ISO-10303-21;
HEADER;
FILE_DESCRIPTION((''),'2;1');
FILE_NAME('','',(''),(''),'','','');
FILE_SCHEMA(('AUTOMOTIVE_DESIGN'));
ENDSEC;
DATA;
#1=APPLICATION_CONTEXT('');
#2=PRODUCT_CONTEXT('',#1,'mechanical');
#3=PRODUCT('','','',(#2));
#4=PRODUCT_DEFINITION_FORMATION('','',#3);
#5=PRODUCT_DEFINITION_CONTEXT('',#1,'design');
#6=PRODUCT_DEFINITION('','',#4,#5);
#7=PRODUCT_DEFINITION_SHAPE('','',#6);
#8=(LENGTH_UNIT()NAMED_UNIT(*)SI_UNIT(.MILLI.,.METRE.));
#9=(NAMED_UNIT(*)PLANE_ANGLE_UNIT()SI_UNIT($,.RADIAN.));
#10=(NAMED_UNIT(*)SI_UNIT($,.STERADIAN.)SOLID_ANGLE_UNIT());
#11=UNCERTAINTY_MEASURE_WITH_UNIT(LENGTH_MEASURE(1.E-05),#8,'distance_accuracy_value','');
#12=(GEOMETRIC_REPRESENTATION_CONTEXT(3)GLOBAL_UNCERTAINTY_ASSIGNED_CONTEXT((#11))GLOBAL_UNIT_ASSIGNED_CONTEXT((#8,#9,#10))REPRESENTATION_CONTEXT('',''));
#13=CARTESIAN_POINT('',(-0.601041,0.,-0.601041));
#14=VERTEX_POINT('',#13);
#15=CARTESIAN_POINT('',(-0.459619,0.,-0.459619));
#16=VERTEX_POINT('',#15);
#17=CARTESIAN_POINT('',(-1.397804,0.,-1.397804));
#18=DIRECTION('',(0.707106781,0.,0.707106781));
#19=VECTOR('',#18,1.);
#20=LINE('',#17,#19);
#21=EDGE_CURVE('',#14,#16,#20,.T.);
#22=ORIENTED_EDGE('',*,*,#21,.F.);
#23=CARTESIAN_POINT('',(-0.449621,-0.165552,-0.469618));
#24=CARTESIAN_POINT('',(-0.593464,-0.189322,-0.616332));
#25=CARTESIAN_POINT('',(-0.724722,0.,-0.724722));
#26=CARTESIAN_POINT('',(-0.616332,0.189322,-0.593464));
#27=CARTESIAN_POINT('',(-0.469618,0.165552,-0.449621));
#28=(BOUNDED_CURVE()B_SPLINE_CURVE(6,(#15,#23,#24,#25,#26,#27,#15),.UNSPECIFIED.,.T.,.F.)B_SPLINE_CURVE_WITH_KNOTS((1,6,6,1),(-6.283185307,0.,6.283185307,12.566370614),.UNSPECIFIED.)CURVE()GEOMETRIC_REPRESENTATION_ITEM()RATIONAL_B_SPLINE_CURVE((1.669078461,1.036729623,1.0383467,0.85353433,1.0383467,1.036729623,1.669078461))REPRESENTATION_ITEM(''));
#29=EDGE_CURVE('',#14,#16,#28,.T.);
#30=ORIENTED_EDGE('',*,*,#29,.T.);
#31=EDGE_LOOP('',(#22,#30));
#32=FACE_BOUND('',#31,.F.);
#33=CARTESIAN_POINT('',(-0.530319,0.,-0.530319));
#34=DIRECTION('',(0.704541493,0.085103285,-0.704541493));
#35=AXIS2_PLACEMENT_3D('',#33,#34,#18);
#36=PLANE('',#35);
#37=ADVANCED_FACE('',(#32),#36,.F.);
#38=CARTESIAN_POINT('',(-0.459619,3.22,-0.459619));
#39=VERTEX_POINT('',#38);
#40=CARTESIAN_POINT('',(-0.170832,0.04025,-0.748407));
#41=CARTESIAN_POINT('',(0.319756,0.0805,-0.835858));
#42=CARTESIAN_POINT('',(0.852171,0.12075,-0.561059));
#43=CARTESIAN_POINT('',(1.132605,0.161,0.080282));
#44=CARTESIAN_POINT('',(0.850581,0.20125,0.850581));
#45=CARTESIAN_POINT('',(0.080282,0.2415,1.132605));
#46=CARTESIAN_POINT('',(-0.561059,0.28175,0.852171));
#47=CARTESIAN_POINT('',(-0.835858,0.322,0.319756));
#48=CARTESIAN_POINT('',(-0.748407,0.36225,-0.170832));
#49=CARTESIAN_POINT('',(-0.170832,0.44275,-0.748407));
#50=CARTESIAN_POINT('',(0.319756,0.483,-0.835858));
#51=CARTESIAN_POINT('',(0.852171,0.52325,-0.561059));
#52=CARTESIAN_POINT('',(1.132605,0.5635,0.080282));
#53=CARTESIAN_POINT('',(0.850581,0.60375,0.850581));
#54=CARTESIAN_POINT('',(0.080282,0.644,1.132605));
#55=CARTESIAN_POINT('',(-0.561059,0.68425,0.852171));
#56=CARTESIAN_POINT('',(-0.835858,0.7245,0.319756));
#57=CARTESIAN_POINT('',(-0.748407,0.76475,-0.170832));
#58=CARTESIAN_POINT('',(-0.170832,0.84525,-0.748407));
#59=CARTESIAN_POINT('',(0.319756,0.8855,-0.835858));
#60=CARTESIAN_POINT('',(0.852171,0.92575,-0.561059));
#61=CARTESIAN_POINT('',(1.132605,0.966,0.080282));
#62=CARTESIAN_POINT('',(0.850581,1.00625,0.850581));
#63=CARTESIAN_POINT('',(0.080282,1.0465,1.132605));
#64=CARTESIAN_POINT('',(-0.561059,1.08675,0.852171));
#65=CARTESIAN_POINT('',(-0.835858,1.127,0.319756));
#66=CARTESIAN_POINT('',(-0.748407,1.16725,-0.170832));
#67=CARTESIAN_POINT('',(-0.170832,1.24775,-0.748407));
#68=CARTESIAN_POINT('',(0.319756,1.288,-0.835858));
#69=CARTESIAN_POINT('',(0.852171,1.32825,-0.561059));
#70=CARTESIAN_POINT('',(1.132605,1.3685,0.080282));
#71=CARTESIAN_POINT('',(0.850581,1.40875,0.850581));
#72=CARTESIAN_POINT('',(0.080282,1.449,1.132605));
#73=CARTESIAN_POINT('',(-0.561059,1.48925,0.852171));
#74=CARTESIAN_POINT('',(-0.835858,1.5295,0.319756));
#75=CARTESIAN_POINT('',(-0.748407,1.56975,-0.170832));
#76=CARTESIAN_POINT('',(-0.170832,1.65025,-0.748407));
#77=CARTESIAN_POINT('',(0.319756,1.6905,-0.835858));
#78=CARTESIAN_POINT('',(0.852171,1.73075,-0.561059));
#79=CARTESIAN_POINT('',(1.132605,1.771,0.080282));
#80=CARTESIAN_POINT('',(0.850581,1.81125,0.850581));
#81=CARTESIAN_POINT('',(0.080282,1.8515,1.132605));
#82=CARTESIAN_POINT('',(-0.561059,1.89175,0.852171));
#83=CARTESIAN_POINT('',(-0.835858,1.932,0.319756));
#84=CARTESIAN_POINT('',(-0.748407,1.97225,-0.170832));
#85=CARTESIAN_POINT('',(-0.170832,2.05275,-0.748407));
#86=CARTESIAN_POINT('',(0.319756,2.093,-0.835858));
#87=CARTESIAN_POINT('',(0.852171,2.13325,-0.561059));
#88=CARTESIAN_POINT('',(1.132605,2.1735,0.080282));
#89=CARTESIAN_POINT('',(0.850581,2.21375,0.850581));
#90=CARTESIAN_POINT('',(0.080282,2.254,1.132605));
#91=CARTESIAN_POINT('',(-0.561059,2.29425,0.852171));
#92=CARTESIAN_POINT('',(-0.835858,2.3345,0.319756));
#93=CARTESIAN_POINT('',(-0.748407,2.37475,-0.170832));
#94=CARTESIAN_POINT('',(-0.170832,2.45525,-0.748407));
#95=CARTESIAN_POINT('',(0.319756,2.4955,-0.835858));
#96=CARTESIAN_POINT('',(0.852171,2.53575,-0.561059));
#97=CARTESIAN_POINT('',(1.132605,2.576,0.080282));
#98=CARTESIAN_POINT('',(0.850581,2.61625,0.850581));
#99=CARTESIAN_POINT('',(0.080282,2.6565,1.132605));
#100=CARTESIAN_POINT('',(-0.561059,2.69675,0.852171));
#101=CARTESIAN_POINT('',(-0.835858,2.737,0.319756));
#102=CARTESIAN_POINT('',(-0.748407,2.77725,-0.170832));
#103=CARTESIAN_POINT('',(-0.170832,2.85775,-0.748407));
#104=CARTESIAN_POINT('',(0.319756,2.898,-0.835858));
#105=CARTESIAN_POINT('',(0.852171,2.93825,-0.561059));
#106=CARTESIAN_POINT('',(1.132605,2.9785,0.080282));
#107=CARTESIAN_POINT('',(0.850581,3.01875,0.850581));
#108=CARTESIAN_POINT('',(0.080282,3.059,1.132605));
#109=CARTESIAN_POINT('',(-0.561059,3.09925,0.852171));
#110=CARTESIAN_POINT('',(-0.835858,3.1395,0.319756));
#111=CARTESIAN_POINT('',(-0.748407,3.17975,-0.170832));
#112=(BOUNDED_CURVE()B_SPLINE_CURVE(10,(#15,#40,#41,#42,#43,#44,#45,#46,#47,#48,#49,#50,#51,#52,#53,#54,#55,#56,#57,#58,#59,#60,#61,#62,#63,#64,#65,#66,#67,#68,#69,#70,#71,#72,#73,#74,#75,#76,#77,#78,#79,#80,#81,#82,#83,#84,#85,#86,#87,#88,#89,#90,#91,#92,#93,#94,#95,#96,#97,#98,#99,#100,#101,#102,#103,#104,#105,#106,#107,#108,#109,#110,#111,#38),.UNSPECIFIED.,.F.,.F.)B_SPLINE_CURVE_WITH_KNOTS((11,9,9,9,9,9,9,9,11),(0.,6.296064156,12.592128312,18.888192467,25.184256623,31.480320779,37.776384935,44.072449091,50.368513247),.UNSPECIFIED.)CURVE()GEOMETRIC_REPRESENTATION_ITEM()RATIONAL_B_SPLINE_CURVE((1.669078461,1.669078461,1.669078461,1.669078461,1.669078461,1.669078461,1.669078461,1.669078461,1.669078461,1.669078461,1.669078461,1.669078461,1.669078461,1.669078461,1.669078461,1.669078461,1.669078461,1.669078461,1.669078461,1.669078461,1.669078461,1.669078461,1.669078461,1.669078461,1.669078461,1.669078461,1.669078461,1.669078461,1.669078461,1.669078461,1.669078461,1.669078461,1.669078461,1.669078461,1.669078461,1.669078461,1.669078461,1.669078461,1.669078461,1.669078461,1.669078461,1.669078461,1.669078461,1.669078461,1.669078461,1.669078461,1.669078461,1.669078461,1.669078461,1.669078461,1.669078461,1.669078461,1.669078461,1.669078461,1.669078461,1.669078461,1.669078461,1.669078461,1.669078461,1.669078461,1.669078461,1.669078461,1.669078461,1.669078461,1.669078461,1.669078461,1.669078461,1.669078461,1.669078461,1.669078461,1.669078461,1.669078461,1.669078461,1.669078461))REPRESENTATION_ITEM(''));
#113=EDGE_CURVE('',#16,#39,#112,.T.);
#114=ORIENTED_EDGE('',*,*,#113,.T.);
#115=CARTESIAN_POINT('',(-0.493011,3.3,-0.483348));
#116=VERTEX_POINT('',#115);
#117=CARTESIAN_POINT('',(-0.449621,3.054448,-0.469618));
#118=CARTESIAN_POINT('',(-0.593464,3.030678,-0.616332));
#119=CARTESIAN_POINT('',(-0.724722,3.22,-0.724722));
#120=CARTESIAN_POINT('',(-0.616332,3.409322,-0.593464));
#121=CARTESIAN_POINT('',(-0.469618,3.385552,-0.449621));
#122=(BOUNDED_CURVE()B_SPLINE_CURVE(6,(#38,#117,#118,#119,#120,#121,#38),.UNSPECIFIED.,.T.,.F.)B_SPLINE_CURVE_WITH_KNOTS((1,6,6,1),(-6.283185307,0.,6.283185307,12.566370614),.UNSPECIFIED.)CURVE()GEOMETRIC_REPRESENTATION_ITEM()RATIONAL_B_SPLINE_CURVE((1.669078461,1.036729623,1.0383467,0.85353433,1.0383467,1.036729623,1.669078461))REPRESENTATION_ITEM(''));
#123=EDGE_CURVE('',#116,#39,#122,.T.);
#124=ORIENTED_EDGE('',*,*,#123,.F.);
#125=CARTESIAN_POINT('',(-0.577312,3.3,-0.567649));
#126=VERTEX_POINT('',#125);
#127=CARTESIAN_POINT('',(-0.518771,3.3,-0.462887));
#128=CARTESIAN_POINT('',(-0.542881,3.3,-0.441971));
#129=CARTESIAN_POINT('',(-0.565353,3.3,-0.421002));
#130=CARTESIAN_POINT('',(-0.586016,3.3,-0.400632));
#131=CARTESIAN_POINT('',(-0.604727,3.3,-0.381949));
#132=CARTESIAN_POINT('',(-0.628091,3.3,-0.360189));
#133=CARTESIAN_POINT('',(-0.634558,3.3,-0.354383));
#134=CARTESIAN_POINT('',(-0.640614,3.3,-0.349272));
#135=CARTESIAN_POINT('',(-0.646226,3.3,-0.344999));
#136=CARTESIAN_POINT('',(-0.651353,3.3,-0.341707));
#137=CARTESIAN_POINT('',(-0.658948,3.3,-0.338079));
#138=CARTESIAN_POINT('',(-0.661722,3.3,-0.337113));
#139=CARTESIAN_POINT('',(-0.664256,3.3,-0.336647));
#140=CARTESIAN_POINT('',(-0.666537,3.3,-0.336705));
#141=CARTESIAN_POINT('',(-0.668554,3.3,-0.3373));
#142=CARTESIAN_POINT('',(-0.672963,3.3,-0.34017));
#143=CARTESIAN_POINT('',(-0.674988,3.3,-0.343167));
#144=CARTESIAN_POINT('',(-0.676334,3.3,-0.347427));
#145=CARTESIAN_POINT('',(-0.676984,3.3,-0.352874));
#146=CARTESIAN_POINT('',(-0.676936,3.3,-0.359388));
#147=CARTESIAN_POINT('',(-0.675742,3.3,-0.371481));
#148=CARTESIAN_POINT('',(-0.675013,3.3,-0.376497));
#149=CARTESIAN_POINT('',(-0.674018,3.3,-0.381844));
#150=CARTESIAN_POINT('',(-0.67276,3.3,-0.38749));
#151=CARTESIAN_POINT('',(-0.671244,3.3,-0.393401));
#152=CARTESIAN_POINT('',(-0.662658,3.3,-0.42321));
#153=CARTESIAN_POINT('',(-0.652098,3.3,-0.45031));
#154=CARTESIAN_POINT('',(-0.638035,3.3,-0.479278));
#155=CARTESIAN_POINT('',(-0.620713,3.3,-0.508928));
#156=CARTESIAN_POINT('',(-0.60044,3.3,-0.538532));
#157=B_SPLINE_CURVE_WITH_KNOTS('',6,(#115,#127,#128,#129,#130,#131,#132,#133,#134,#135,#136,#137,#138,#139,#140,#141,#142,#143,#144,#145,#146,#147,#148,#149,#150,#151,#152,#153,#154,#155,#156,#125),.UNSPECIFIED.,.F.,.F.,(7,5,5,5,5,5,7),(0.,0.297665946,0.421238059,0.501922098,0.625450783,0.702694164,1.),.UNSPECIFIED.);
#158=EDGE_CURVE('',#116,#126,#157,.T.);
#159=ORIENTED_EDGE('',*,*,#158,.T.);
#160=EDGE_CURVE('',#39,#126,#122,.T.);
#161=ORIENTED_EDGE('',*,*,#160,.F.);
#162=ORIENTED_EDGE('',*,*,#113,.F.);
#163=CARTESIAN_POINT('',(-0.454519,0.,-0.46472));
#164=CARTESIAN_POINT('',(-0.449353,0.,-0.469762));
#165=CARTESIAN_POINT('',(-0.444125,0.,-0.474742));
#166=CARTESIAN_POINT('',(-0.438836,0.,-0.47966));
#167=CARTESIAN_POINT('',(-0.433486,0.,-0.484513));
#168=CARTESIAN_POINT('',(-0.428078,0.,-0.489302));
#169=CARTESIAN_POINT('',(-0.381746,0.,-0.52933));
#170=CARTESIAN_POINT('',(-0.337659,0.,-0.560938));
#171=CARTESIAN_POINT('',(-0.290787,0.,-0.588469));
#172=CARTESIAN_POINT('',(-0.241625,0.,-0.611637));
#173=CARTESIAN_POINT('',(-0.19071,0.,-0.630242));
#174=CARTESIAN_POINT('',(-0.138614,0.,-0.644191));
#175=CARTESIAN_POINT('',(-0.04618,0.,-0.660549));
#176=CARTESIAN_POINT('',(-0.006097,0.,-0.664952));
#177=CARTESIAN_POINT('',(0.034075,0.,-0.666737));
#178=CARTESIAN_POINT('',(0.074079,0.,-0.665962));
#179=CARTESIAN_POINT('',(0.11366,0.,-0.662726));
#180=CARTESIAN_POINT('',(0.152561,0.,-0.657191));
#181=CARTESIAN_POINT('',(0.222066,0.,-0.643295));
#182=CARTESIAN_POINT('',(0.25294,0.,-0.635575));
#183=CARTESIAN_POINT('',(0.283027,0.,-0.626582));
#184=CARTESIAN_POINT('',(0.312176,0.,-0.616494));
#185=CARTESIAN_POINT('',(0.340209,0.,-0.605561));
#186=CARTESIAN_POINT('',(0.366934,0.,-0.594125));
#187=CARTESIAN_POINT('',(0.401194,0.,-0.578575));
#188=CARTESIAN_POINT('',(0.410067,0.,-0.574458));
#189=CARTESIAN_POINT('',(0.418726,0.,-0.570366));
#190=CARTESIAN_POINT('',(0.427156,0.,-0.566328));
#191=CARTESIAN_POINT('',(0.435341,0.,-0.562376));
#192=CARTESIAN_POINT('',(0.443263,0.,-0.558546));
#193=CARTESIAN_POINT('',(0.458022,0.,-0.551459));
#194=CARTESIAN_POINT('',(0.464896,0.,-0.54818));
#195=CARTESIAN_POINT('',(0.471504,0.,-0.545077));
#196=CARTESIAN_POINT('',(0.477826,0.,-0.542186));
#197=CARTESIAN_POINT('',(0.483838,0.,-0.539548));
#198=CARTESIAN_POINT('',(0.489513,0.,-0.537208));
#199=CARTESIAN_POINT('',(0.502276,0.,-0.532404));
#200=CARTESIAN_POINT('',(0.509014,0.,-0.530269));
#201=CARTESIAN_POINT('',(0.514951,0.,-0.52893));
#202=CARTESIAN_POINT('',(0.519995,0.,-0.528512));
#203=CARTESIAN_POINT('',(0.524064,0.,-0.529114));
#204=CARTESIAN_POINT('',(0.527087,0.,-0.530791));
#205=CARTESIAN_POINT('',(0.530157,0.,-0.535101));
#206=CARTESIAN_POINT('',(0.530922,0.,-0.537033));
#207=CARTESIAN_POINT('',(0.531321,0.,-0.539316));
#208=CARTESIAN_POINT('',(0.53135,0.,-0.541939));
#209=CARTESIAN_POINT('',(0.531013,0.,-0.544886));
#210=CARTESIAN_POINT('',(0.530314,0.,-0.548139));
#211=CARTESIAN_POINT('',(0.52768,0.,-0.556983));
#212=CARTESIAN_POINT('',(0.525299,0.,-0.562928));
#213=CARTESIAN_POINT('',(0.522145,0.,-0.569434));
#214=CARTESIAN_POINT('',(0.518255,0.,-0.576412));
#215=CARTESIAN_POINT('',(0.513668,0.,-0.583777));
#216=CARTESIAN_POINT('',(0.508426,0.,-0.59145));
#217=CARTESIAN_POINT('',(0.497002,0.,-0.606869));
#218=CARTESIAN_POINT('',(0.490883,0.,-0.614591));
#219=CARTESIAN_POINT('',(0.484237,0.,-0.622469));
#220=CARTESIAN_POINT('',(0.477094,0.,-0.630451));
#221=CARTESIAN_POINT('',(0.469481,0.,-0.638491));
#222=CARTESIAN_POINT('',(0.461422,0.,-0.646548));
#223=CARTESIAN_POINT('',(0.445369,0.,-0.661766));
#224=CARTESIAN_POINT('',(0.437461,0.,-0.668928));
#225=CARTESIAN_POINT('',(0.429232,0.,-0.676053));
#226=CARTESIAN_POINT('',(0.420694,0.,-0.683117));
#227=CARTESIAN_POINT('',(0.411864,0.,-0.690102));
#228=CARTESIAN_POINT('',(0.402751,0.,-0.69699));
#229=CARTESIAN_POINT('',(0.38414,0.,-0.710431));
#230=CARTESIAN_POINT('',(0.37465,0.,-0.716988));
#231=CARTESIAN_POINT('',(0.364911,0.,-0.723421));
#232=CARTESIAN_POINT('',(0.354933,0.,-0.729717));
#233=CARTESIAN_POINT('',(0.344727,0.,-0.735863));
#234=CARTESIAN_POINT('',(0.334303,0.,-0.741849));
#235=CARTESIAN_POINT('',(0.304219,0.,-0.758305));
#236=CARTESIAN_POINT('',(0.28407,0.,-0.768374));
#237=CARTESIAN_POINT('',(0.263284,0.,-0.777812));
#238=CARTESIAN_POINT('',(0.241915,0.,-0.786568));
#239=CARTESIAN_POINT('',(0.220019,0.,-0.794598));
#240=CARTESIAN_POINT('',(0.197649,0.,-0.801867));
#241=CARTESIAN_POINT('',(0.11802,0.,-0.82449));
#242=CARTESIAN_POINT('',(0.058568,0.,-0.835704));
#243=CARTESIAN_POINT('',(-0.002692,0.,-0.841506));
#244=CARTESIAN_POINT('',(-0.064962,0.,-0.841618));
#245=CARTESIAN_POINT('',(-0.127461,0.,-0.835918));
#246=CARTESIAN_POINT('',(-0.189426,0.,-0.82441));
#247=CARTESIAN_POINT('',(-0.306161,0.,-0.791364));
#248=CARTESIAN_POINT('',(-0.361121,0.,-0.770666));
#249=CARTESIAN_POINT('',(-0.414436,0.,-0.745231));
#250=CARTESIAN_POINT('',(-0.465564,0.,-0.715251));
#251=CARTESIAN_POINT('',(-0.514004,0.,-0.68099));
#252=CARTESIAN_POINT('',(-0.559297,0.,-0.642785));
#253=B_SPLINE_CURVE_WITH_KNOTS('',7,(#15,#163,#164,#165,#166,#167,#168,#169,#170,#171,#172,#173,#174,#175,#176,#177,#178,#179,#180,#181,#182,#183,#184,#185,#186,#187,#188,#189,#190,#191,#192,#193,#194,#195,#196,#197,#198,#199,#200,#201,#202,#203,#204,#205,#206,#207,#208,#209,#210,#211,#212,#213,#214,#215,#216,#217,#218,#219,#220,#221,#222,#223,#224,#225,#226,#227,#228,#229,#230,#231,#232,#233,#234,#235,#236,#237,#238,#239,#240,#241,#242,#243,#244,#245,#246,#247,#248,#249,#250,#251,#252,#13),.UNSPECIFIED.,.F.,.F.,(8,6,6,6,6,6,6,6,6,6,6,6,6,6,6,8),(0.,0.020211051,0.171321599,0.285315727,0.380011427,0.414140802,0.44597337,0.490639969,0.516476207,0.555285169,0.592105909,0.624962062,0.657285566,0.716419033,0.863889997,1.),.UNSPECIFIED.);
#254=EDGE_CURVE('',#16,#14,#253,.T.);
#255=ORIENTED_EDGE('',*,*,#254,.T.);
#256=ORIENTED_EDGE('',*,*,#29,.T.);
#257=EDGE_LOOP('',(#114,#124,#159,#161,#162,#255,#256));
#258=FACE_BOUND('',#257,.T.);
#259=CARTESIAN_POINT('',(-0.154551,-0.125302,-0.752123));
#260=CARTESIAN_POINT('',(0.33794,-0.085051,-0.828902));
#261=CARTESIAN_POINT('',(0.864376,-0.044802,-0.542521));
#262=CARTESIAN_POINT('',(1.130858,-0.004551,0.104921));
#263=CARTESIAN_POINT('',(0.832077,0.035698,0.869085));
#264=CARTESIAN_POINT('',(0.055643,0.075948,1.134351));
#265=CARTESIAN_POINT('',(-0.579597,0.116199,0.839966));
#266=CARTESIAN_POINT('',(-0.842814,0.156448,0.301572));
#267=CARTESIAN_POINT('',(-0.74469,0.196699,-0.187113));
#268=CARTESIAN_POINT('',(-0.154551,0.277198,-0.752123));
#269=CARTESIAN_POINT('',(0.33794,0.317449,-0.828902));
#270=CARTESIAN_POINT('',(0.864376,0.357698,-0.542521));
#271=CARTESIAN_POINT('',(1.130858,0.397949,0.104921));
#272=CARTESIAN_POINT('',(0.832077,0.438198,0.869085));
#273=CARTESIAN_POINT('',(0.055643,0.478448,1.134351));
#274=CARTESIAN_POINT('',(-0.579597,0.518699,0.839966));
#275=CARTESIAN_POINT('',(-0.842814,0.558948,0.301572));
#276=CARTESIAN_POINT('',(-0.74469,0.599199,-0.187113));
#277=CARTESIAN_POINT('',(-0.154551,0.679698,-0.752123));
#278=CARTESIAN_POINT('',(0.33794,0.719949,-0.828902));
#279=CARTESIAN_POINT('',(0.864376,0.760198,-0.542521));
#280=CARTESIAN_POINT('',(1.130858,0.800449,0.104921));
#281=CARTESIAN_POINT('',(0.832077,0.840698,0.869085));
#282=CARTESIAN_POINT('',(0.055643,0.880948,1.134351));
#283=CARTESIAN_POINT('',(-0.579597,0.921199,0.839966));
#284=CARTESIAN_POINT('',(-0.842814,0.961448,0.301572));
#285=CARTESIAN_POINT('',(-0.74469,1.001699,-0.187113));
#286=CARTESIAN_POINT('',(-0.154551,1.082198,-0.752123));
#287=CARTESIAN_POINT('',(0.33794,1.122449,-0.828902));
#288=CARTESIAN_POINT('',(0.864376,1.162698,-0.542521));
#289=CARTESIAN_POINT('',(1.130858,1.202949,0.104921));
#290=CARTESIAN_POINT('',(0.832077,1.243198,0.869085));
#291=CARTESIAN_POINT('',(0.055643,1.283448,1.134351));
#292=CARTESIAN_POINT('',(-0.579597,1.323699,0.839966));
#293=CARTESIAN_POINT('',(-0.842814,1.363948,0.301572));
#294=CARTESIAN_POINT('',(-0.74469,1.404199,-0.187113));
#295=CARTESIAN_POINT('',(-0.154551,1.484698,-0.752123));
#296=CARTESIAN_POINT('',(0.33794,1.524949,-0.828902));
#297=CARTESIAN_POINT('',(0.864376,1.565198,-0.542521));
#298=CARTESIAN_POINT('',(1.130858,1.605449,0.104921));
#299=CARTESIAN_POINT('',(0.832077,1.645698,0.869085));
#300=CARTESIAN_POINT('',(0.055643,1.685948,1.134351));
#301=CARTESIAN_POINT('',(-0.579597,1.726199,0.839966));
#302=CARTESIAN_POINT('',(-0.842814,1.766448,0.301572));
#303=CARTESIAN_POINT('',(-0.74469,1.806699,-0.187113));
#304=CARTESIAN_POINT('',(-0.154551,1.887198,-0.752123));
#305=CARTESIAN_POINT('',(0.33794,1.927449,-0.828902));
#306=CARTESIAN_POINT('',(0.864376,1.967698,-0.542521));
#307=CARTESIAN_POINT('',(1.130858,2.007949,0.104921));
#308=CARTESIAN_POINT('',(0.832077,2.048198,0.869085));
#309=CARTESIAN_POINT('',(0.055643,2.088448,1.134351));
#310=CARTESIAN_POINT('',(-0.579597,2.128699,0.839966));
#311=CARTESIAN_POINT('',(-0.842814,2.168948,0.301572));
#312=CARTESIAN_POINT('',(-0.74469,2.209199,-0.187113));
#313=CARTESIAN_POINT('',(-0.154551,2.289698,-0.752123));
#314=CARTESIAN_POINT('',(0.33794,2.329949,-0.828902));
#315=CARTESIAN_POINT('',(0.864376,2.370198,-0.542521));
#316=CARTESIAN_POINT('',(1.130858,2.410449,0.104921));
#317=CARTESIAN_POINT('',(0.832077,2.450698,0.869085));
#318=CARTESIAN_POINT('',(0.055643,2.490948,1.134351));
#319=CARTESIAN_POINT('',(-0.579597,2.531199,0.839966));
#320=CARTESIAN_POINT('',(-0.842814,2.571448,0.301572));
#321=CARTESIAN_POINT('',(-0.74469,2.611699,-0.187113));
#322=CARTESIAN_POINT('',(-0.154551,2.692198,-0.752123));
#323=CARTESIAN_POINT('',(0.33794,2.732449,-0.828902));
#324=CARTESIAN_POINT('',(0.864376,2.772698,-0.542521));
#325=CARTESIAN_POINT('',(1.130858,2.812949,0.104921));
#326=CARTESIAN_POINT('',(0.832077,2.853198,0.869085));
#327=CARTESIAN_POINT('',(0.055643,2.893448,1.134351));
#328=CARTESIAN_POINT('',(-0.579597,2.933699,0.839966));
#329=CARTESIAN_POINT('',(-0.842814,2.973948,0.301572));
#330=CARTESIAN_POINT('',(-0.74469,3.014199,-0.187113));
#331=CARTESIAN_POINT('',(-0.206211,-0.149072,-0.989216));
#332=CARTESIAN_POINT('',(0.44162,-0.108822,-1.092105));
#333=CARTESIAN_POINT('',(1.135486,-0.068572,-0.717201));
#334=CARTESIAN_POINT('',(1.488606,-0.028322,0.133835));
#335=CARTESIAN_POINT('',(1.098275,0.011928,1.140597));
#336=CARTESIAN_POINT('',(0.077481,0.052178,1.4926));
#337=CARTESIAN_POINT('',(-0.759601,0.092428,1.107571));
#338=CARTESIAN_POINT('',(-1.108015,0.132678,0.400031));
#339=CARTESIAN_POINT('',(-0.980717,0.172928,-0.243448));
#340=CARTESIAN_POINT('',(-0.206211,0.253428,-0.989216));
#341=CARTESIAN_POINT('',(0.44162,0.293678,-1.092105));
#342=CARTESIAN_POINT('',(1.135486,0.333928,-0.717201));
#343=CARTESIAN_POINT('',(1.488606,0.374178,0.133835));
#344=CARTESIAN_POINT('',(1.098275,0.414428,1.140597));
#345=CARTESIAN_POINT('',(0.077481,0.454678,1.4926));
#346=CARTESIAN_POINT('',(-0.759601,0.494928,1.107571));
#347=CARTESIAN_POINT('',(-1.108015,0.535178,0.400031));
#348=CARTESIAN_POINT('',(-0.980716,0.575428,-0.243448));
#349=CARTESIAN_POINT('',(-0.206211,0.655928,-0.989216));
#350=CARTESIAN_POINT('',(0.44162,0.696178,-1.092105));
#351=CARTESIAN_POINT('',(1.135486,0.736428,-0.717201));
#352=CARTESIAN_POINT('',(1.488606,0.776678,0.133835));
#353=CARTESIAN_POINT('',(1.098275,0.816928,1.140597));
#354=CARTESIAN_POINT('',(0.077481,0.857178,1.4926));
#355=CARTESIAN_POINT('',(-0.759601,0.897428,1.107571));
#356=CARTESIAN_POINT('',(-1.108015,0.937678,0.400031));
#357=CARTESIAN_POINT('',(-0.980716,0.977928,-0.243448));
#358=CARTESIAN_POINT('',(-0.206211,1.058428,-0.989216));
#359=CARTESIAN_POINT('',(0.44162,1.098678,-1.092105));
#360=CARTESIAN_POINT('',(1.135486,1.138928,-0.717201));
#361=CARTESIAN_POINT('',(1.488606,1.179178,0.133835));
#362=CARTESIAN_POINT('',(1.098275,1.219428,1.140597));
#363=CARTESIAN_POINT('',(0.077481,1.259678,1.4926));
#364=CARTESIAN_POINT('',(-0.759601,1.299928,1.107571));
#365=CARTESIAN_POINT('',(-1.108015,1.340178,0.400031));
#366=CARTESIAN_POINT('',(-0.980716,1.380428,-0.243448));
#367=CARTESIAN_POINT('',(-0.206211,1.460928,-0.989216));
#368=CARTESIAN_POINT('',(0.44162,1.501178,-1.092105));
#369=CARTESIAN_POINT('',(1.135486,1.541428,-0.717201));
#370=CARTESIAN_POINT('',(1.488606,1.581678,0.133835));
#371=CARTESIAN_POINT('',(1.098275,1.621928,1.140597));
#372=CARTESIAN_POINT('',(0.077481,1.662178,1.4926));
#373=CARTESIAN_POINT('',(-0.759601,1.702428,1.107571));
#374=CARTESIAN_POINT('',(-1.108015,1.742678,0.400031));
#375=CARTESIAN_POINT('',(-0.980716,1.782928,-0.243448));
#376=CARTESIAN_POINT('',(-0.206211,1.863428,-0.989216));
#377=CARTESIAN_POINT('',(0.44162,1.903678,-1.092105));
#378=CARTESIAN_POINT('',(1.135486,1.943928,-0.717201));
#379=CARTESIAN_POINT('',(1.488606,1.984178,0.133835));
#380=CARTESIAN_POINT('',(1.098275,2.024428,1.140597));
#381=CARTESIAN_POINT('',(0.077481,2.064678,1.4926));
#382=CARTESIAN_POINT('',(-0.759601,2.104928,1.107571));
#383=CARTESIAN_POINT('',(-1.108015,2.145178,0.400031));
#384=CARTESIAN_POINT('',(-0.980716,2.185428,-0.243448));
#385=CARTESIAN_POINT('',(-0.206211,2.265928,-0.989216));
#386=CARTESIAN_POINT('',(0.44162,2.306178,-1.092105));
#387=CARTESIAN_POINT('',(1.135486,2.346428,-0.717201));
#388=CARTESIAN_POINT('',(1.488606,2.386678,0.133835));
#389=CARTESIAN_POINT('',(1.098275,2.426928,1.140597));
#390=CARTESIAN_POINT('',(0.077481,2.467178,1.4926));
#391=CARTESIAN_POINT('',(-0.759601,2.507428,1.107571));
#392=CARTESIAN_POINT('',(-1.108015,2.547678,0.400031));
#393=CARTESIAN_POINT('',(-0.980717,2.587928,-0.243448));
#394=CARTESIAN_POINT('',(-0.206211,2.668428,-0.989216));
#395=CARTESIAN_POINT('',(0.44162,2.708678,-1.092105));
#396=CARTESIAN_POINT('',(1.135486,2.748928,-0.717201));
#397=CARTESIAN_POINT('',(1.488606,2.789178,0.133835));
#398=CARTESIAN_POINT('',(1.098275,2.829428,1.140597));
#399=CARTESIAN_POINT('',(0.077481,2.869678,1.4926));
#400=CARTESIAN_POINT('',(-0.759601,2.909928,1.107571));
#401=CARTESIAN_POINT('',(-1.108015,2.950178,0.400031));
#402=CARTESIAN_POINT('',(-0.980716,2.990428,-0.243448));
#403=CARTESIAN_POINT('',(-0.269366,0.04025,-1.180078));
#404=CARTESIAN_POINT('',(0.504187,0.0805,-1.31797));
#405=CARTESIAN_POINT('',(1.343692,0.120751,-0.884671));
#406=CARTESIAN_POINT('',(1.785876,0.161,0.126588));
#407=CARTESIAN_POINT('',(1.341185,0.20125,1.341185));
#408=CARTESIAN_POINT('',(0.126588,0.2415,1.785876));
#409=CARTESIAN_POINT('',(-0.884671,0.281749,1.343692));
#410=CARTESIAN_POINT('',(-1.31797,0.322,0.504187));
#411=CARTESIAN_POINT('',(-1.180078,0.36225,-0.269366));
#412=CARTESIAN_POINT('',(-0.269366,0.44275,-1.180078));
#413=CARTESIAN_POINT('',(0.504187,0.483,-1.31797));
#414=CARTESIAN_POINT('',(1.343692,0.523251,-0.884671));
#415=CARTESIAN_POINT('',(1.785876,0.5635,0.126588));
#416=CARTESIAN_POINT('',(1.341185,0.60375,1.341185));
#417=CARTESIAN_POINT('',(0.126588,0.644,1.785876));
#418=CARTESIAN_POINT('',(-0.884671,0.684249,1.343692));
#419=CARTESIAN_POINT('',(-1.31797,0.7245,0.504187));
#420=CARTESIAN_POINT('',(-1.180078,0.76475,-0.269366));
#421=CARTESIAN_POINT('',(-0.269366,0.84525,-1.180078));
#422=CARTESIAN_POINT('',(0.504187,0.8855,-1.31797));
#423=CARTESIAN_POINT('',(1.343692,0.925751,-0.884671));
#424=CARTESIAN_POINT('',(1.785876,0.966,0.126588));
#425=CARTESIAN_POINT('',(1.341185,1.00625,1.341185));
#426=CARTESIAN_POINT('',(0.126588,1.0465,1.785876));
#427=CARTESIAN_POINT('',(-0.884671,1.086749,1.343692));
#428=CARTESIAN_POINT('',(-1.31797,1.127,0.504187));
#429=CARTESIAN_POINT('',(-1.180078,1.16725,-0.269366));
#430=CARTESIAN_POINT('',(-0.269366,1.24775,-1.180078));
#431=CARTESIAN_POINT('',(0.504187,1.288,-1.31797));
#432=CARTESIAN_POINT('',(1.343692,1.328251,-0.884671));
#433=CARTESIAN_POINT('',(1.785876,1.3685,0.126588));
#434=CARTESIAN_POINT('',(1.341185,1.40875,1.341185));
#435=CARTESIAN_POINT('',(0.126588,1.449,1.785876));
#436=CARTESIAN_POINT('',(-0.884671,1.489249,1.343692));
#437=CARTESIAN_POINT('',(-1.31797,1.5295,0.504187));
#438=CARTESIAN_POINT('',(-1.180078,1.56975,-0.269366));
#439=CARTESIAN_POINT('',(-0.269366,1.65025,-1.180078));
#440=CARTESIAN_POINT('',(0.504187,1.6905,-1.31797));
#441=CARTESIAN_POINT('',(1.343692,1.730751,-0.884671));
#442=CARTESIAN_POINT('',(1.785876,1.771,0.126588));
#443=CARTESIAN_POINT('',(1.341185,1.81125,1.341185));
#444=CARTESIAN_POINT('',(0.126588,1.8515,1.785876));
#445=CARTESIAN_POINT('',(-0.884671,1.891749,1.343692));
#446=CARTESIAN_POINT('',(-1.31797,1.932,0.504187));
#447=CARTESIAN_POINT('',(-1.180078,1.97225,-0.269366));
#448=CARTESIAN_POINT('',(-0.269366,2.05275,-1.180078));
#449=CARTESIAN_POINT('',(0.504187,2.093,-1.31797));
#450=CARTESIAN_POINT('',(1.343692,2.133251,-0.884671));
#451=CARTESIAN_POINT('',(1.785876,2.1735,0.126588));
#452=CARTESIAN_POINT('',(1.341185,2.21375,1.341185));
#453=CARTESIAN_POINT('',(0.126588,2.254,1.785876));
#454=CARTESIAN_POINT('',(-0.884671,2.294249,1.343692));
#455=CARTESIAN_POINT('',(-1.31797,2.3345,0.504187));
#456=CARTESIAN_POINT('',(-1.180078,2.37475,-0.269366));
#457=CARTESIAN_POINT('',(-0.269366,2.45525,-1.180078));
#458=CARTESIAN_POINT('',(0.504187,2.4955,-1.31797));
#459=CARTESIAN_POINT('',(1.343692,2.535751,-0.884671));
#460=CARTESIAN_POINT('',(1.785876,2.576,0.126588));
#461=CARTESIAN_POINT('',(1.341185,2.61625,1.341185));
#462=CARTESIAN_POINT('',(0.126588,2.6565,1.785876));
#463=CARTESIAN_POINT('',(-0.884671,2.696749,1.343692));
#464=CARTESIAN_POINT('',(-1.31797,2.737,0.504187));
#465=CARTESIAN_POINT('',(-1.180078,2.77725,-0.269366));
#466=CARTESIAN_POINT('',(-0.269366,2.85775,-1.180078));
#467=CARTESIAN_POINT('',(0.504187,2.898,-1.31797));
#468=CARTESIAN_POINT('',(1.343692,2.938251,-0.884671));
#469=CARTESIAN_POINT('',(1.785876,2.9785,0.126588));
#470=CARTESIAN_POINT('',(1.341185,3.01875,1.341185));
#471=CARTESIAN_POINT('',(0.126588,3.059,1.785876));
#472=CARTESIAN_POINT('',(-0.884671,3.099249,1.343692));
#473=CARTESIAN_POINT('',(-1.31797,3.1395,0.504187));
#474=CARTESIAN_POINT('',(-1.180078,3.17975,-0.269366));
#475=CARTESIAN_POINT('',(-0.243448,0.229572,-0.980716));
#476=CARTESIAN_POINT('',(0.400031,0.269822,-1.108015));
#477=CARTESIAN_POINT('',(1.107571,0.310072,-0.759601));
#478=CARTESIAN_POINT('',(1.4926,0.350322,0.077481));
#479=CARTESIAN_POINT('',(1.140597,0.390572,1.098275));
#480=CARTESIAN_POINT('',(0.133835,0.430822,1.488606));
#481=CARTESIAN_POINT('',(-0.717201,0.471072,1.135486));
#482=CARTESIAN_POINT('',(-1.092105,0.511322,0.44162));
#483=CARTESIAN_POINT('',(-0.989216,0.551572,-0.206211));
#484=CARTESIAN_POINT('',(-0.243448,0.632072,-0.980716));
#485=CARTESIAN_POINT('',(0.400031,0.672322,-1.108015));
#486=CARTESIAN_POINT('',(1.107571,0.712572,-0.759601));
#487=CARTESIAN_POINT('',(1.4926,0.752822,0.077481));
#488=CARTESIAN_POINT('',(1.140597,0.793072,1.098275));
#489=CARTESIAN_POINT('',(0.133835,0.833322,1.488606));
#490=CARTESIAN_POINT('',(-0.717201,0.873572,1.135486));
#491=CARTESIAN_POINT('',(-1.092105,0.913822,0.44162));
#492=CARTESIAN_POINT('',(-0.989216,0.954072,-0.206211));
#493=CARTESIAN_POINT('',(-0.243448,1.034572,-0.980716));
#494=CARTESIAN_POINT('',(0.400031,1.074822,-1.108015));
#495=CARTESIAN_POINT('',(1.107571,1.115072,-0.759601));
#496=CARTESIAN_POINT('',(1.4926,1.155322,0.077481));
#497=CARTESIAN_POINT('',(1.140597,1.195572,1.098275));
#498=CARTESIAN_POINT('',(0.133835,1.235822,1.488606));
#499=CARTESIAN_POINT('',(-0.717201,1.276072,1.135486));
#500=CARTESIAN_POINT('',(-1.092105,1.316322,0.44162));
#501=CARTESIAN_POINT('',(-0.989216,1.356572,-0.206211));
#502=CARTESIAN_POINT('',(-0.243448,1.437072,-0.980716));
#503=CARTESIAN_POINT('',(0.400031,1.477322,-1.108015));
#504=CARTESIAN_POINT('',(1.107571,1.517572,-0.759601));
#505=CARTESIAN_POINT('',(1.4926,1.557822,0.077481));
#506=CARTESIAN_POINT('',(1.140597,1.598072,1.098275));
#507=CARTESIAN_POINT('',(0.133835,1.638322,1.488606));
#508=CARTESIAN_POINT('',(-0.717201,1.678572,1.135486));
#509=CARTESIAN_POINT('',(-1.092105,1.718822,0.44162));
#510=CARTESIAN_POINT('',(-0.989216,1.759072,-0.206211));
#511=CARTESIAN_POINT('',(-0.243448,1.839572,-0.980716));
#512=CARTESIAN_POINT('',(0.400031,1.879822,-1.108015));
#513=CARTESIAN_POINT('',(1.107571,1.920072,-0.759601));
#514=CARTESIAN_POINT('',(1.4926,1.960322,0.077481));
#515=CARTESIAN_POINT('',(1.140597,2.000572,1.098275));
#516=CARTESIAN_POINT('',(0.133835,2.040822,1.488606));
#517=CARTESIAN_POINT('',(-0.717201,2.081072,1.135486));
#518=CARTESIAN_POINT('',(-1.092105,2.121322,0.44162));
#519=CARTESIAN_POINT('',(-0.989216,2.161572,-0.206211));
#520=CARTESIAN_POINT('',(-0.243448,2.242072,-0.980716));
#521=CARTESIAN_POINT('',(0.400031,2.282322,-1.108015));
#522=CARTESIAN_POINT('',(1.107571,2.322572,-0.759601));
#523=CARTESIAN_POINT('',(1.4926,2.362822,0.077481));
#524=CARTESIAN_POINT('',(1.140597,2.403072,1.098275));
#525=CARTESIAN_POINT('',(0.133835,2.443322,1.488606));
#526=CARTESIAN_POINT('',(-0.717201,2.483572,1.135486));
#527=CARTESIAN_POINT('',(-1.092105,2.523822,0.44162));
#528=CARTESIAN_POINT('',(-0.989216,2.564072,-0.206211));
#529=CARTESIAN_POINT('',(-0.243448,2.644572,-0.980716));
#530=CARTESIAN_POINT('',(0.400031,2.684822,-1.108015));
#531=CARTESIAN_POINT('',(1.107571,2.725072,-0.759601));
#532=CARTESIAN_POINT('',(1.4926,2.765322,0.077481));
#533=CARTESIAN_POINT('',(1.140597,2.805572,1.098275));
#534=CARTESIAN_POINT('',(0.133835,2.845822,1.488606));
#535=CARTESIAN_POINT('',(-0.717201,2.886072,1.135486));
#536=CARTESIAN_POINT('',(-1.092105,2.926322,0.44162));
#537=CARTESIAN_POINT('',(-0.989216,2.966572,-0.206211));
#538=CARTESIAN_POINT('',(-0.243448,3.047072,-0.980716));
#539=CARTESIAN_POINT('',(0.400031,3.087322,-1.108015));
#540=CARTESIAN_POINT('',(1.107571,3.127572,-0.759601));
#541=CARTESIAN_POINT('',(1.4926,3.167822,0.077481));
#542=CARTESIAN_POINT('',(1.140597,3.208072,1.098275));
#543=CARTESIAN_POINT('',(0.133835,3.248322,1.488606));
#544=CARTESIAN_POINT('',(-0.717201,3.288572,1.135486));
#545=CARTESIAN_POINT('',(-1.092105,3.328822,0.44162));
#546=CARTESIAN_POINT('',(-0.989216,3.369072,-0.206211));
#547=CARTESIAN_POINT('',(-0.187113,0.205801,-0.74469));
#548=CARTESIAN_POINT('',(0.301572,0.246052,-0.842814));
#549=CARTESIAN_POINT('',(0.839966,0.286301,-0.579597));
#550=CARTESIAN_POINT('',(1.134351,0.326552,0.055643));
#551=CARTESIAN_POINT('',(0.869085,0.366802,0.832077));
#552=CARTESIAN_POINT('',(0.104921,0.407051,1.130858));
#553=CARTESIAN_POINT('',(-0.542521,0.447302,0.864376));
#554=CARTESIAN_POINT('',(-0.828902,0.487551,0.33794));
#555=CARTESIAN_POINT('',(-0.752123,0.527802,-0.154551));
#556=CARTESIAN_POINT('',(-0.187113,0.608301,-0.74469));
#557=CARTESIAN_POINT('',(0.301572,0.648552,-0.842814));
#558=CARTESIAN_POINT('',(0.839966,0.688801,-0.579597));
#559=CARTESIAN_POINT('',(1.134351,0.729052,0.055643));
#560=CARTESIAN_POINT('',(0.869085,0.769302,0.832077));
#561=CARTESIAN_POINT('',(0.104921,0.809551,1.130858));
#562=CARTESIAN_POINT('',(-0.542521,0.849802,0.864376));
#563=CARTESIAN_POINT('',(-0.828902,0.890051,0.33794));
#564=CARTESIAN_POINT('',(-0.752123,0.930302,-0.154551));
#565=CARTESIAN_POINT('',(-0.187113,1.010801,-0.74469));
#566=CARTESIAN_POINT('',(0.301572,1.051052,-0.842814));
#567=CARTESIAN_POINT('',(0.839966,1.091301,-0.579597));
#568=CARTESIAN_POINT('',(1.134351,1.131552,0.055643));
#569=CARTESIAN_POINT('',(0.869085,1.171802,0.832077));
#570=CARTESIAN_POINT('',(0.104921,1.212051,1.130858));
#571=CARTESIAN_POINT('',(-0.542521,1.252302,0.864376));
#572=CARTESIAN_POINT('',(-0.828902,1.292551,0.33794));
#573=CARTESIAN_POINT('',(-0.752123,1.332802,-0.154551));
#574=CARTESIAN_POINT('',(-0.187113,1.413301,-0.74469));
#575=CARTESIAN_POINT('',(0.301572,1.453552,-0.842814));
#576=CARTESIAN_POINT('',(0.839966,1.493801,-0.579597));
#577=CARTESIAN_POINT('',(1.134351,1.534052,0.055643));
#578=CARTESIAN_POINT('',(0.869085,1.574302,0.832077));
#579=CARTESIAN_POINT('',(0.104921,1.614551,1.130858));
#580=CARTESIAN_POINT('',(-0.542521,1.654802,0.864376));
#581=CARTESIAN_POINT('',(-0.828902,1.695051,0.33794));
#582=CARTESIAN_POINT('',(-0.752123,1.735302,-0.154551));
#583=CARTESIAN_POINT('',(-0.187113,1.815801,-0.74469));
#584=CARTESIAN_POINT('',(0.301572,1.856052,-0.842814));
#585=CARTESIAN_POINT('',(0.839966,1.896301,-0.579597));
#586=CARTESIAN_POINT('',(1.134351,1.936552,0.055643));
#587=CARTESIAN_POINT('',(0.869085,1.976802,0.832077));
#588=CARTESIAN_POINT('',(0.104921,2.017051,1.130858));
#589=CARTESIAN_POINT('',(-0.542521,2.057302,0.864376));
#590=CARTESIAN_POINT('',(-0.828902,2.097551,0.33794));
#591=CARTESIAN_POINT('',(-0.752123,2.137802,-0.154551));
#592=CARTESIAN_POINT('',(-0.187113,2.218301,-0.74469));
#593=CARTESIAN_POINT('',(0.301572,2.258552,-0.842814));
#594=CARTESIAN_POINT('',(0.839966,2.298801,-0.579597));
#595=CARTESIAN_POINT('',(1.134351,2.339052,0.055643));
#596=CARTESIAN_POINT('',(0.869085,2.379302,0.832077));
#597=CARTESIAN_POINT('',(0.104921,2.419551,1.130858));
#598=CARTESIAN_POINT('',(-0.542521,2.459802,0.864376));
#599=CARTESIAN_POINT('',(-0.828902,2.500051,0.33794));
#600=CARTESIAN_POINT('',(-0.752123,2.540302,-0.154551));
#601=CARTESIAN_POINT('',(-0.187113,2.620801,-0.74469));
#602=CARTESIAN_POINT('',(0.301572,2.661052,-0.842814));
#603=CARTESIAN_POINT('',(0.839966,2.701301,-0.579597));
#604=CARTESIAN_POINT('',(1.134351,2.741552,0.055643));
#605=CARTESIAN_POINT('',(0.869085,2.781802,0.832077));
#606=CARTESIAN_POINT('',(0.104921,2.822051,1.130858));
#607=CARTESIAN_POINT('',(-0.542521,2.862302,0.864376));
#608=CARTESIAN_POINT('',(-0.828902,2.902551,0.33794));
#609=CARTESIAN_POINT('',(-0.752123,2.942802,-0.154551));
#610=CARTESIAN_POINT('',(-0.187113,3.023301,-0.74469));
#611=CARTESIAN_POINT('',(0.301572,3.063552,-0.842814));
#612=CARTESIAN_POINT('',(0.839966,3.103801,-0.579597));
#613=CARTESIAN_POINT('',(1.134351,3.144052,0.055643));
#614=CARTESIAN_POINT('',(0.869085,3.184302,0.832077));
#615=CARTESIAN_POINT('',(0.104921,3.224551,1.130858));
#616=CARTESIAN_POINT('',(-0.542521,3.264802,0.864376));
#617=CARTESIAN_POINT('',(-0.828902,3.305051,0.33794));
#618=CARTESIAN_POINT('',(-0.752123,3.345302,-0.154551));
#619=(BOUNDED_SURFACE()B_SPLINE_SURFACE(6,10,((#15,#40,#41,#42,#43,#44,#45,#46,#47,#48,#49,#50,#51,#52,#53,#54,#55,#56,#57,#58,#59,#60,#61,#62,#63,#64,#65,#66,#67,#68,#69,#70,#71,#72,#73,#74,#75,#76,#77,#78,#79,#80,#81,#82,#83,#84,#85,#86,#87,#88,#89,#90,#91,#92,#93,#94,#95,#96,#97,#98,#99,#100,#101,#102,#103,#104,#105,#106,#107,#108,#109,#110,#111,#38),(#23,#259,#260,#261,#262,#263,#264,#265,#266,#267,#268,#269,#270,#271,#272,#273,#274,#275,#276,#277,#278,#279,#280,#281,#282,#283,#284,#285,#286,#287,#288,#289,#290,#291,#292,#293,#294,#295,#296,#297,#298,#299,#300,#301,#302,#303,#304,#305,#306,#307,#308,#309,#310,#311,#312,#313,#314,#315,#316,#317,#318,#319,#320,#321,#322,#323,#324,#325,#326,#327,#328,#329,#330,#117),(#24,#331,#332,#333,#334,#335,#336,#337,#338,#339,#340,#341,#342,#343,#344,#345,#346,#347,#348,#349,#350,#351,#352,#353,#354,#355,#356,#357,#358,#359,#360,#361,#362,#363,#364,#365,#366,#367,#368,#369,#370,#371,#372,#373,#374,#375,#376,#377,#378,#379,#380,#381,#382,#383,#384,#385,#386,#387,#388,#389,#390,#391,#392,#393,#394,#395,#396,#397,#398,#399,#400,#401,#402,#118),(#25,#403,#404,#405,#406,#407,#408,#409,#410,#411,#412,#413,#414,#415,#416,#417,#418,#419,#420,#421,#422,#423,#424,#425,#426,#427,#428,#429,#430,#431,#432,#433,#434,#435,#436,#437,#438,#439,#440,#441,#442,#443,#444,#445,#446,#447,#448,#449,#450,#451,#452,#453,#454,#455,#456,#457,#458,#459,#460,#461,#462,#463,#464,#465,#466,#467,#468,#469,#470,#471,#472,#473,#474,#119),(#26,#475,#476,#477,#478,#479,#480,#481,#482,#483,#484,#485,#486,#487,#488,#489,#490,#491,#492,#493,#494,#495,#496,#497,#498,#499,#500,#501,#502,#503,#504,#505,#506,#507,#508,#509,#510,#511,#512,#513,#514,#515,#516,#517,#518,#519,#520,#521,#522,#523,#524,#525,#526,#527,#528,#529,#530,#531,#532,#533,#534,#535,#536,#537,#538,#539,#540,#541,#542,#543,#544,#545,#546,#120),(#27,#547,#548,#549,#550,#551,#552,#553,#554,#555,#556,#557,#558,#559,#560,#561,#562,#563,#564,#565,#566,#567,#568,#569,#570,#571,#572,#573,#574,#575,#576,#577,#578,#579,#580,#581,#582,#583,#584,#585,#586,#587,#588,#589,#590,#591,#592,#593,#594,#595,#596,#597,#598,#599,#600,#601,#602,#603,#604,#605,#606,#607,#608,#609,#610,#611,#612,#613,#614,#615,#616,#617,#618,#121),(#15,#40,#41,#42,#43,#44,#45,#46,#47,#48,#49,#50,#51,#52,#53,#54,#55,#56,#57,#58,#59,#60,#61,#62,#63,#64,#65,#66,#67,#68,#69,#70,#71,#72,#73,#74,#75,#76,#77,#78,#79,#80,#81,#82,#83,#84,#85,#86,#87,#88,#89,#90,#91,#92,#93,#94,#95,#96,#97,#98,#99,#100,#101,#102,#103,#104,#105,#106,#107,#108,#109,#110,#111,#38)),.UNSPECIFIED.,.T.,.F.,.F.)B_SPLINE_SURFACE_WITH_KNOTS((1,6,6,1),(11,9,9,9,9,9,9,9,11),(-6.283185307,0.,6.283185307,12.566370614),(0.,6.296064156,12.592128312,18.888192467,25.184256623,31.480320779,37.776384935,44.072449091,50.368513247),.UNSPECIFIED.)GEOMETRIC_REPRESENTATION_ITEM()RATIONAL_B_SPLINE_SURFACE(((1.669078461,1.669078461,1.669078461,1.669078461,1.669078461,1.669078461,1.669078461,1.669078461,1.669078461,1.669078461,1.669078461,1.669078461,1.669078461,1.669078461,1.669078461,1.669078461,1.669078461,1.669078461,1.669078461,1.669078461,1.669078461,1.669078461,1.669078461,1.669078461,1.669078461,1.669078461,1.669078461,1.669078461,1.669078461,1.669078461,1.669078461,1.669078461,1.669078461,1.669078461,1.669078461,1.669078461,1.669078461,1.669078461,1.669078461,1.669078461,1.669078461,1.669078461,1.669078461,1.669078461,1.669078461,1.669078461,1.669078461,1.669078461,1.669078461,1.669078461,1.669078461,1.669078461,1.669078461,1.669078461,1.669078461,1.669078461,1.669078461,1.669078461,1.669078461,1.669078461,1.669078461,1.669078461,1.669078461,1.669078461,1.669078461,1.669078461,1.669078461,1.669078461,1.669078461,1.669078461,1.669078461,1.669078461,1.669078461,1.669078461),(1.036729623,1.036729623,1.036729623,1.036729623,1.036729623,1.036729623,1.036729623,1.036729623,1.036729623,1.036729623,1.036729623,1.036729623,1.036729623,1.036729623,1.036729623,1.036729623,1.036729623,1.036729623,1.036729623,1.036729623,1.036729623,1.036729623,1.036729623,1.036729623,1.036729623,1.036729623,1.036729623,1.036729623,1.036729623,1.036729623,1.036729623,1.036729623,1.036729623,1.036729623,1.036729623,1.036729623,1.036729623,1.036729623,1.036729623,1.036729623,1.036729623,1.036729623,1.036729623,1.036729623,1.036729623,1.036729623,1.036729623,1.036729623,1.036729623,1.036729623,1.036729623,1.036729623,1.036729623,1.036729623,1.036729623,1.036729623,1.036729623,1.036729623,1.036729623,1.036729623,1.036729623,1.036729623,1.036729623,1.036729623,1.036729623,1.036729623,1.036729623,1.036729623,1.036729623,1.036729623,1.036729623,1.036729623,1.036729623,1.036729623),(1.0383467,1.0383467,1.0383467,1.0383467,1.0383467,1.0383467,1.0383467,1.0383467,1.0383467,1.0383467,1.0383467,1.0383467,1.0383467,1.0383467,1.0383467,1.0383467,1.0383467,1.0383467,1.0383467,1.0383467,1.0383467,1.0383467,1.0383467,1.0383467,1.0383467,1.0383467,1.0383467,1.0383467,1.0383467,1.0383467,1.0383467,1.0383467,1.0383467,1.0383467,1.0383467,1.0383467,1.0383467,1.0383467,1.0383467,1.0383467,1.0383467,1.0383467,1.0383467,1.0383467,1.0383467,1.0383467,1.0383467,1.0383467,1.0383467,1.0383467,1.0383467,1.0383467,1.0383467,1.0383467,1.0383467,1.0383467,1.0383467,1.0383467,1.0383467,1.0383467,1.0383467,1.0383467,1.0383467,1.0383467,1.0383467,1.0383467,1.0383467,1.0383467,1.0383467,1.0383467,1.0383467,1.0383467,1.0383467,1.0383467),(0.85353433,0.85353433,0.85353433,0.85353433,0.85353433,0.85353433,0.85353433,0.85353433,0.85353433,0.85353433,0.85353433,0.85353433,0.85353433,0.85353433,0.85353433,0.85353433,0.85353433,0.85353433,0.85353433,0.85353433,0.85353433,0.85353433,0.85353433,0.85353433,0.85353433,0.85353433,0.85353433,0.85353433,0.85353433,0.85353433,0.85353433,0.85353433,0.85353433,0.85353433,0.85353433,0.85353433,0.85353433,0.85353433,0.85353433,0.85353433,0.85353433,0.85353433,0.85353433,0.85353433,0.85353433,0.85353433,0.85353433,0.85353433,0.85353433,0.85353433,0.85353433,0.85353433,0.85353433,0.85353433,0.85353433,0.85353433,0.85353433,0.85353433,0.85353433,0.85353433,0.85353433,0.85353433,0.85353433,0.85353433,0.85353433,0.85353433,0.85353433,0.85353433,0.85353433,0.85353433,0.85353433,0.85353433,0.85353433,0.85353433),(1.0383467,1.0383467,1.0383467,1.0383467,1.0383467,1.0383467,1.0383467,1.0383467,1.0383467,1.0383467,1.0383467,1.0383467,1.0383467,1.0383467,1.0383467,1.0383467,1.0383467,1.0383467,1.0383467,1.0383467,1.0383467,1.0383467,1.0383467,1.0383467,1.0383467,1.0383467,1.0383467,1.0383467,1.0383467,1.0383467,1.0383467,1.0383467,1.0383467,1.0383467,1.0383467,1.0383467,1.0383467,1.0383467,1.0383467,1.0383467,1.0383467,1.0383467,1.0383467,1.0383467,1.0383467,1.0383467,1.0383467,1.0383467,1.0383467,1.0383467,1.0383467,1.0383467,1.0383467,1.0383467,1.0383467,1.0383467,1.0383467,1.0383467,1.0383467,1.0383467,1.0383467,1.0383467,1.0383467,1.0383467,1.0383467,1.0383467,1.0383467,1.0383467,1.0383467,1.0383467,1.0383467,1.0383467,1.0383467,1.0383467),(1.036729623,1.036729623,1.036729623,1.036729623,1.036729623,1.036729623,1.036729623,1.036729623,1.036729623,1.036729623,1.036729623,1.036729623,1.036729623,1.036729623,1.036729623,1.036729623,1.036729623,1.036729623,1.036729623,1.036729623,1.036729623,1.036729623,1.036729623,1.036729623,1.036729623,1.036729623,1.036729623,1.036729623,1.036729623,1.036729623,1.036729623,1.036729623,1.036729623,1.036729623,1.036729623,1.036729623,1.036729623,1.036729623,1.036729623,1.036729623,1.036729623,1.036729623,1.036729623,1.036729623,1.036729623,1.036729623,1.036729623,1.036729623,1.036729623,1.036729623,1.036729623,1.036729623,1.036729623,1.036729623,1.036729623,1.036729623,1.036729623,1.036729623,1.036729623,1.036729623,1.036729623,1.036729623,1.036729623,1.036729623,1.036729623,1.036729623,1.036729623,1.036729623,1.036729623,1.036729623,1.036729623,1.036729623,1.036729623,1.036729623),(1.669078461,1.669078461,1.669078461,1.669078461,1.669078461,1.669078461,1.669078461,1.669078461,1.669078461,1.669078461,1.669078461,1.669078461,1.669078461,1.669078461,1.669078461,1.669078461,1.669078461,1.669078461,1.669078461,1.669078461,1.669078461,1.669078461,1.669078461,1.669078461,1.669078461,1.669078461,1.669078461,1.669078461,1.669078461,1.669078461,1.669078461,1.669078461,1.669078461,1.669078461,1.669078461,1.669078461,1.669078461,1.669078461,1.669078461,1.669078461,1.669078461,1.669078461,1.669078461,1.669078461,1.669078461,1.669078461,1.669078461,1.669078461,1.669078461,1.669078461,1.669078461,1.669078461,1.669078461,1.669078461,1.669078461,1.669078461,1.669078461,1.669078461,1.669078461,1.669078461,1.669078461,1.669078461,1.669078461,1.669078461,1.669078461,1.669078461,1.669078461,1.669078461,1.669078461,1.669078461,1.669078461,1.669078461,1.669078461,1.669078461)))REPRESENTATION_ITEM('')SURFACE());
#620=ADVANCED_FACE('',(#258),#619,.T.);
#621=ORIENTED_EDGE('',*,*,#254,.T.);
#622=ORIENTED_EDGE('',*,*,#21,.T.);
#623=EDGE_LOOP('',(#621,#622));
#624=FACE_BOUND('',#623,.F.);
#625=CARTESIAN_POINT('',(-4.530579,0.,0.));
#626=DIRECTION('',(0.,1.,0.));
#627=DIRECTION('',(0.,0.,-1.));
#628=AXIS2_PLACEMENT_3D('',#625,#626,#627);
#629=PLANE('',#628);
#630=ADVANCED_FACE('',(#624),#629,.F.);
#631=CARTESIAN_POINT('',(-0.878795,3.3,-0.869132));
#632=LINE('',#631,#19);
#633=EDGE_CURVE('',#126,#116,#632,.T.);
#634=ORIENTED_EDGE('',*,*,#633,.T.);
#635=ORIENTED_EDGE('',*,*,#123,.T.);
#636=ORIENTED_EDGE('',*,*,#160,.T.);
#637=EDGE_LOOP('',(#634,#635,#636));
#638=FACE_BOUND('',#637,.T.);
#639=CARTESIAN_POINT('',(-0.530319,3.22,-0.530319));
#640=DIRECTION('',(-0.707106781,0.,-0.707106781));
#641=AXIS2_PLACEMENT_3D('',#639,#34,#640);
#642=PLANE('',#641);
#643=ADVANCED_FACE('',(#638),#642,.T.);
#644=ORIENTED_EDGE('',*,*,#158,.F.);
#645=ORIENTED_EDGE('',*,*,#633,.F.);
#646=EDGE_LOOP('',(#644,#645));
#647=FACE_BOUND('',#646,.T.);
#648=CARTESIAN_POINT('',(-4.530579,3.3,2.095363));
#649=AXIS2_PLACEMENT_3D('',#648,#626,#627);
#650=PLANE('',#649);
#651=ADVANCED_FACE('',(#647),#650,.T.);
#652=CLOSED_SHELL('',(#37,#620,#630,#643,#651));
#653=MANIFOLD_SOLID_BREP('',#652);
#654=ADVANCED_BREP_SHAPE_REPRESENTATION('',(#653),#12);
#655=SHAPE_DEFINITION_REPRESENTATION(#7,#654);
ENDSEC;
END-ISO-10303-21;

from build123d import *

# Parameters (mm, degrees)
SWEEP1_PITCH            = 0.4025
SWEEP1_HEIGHT           = 3.22
SWEEP1_RADIUS           = 0.75
SWEEP1_START_ANGLE      = -135
SWEEP1_PROFILE_R        = 0.1
CUT_EXTRUDE1_DEPTH      = 4.530578893
CUT_EXTRUDE1_DEPTH_BACK = 4.530578893
SKETCH5_W               = 1
SKETCH5_H               = 0.2
SKETCH5_W_2             = 3
SKETCH5_H_2             = 0.229603296


with BuildPart() as part:
    # Sweep1: sweep along a helix
    with BuildLine() as sweep1_path:
        add(Helix(SWEEP1_PITCH, SWEEP1_HEIGHT, SWEEP1_RADIUS, center=(0, 0, 0), direction=(0, 1, 0), lefthand=True, mode=Mode.PRIVATE).rotate(Axis((0, 0, 0), (0, 1, 0)), SWEEP1_START_ANGLE))
    # Sweep1 profile (on start of the path) → Sweep1 (sweep)
    with BuildSketch(Plane(origin=(-0.530330086, 0, -0.530330086), x_dir=(0.7071067811864836, 0, 0.7071067811866116), z_dir=(0.70454149303562, 0.08510328537993672, -0.7045414930354924))):
        Circle(SWEEP1_PROFILE_R)
    sweep(path=sweep1_path.line, is_frenet=True)

    # Sketch5 → Cut-Extrude1 (cut, two sides: drawn at the far end of the back side and taken through both)
    with BuildSketch(Plane(origin=(0, 0, 0), x_dir=(0, 0, -1), z_dir=(1, 0, 0)).offset(-CUT_EXTRUDE1_DEPTH_BACK)):
        with Locations((0.5, -0.1)):
            Rectangle(SKETCH5_W, SKETCH5_H)
        with Locations((-0.595363013, 3.414801648)):
            Rectangle(SKETCH5_W_2, SKETCH5_H_2)
    extrude(amount=CUT_EXTRUDE1_DEPTH + CUT_EXTRUDE1_DEPTH_BACK, mode=Mode.SUBTRACT)


solid = part.part
